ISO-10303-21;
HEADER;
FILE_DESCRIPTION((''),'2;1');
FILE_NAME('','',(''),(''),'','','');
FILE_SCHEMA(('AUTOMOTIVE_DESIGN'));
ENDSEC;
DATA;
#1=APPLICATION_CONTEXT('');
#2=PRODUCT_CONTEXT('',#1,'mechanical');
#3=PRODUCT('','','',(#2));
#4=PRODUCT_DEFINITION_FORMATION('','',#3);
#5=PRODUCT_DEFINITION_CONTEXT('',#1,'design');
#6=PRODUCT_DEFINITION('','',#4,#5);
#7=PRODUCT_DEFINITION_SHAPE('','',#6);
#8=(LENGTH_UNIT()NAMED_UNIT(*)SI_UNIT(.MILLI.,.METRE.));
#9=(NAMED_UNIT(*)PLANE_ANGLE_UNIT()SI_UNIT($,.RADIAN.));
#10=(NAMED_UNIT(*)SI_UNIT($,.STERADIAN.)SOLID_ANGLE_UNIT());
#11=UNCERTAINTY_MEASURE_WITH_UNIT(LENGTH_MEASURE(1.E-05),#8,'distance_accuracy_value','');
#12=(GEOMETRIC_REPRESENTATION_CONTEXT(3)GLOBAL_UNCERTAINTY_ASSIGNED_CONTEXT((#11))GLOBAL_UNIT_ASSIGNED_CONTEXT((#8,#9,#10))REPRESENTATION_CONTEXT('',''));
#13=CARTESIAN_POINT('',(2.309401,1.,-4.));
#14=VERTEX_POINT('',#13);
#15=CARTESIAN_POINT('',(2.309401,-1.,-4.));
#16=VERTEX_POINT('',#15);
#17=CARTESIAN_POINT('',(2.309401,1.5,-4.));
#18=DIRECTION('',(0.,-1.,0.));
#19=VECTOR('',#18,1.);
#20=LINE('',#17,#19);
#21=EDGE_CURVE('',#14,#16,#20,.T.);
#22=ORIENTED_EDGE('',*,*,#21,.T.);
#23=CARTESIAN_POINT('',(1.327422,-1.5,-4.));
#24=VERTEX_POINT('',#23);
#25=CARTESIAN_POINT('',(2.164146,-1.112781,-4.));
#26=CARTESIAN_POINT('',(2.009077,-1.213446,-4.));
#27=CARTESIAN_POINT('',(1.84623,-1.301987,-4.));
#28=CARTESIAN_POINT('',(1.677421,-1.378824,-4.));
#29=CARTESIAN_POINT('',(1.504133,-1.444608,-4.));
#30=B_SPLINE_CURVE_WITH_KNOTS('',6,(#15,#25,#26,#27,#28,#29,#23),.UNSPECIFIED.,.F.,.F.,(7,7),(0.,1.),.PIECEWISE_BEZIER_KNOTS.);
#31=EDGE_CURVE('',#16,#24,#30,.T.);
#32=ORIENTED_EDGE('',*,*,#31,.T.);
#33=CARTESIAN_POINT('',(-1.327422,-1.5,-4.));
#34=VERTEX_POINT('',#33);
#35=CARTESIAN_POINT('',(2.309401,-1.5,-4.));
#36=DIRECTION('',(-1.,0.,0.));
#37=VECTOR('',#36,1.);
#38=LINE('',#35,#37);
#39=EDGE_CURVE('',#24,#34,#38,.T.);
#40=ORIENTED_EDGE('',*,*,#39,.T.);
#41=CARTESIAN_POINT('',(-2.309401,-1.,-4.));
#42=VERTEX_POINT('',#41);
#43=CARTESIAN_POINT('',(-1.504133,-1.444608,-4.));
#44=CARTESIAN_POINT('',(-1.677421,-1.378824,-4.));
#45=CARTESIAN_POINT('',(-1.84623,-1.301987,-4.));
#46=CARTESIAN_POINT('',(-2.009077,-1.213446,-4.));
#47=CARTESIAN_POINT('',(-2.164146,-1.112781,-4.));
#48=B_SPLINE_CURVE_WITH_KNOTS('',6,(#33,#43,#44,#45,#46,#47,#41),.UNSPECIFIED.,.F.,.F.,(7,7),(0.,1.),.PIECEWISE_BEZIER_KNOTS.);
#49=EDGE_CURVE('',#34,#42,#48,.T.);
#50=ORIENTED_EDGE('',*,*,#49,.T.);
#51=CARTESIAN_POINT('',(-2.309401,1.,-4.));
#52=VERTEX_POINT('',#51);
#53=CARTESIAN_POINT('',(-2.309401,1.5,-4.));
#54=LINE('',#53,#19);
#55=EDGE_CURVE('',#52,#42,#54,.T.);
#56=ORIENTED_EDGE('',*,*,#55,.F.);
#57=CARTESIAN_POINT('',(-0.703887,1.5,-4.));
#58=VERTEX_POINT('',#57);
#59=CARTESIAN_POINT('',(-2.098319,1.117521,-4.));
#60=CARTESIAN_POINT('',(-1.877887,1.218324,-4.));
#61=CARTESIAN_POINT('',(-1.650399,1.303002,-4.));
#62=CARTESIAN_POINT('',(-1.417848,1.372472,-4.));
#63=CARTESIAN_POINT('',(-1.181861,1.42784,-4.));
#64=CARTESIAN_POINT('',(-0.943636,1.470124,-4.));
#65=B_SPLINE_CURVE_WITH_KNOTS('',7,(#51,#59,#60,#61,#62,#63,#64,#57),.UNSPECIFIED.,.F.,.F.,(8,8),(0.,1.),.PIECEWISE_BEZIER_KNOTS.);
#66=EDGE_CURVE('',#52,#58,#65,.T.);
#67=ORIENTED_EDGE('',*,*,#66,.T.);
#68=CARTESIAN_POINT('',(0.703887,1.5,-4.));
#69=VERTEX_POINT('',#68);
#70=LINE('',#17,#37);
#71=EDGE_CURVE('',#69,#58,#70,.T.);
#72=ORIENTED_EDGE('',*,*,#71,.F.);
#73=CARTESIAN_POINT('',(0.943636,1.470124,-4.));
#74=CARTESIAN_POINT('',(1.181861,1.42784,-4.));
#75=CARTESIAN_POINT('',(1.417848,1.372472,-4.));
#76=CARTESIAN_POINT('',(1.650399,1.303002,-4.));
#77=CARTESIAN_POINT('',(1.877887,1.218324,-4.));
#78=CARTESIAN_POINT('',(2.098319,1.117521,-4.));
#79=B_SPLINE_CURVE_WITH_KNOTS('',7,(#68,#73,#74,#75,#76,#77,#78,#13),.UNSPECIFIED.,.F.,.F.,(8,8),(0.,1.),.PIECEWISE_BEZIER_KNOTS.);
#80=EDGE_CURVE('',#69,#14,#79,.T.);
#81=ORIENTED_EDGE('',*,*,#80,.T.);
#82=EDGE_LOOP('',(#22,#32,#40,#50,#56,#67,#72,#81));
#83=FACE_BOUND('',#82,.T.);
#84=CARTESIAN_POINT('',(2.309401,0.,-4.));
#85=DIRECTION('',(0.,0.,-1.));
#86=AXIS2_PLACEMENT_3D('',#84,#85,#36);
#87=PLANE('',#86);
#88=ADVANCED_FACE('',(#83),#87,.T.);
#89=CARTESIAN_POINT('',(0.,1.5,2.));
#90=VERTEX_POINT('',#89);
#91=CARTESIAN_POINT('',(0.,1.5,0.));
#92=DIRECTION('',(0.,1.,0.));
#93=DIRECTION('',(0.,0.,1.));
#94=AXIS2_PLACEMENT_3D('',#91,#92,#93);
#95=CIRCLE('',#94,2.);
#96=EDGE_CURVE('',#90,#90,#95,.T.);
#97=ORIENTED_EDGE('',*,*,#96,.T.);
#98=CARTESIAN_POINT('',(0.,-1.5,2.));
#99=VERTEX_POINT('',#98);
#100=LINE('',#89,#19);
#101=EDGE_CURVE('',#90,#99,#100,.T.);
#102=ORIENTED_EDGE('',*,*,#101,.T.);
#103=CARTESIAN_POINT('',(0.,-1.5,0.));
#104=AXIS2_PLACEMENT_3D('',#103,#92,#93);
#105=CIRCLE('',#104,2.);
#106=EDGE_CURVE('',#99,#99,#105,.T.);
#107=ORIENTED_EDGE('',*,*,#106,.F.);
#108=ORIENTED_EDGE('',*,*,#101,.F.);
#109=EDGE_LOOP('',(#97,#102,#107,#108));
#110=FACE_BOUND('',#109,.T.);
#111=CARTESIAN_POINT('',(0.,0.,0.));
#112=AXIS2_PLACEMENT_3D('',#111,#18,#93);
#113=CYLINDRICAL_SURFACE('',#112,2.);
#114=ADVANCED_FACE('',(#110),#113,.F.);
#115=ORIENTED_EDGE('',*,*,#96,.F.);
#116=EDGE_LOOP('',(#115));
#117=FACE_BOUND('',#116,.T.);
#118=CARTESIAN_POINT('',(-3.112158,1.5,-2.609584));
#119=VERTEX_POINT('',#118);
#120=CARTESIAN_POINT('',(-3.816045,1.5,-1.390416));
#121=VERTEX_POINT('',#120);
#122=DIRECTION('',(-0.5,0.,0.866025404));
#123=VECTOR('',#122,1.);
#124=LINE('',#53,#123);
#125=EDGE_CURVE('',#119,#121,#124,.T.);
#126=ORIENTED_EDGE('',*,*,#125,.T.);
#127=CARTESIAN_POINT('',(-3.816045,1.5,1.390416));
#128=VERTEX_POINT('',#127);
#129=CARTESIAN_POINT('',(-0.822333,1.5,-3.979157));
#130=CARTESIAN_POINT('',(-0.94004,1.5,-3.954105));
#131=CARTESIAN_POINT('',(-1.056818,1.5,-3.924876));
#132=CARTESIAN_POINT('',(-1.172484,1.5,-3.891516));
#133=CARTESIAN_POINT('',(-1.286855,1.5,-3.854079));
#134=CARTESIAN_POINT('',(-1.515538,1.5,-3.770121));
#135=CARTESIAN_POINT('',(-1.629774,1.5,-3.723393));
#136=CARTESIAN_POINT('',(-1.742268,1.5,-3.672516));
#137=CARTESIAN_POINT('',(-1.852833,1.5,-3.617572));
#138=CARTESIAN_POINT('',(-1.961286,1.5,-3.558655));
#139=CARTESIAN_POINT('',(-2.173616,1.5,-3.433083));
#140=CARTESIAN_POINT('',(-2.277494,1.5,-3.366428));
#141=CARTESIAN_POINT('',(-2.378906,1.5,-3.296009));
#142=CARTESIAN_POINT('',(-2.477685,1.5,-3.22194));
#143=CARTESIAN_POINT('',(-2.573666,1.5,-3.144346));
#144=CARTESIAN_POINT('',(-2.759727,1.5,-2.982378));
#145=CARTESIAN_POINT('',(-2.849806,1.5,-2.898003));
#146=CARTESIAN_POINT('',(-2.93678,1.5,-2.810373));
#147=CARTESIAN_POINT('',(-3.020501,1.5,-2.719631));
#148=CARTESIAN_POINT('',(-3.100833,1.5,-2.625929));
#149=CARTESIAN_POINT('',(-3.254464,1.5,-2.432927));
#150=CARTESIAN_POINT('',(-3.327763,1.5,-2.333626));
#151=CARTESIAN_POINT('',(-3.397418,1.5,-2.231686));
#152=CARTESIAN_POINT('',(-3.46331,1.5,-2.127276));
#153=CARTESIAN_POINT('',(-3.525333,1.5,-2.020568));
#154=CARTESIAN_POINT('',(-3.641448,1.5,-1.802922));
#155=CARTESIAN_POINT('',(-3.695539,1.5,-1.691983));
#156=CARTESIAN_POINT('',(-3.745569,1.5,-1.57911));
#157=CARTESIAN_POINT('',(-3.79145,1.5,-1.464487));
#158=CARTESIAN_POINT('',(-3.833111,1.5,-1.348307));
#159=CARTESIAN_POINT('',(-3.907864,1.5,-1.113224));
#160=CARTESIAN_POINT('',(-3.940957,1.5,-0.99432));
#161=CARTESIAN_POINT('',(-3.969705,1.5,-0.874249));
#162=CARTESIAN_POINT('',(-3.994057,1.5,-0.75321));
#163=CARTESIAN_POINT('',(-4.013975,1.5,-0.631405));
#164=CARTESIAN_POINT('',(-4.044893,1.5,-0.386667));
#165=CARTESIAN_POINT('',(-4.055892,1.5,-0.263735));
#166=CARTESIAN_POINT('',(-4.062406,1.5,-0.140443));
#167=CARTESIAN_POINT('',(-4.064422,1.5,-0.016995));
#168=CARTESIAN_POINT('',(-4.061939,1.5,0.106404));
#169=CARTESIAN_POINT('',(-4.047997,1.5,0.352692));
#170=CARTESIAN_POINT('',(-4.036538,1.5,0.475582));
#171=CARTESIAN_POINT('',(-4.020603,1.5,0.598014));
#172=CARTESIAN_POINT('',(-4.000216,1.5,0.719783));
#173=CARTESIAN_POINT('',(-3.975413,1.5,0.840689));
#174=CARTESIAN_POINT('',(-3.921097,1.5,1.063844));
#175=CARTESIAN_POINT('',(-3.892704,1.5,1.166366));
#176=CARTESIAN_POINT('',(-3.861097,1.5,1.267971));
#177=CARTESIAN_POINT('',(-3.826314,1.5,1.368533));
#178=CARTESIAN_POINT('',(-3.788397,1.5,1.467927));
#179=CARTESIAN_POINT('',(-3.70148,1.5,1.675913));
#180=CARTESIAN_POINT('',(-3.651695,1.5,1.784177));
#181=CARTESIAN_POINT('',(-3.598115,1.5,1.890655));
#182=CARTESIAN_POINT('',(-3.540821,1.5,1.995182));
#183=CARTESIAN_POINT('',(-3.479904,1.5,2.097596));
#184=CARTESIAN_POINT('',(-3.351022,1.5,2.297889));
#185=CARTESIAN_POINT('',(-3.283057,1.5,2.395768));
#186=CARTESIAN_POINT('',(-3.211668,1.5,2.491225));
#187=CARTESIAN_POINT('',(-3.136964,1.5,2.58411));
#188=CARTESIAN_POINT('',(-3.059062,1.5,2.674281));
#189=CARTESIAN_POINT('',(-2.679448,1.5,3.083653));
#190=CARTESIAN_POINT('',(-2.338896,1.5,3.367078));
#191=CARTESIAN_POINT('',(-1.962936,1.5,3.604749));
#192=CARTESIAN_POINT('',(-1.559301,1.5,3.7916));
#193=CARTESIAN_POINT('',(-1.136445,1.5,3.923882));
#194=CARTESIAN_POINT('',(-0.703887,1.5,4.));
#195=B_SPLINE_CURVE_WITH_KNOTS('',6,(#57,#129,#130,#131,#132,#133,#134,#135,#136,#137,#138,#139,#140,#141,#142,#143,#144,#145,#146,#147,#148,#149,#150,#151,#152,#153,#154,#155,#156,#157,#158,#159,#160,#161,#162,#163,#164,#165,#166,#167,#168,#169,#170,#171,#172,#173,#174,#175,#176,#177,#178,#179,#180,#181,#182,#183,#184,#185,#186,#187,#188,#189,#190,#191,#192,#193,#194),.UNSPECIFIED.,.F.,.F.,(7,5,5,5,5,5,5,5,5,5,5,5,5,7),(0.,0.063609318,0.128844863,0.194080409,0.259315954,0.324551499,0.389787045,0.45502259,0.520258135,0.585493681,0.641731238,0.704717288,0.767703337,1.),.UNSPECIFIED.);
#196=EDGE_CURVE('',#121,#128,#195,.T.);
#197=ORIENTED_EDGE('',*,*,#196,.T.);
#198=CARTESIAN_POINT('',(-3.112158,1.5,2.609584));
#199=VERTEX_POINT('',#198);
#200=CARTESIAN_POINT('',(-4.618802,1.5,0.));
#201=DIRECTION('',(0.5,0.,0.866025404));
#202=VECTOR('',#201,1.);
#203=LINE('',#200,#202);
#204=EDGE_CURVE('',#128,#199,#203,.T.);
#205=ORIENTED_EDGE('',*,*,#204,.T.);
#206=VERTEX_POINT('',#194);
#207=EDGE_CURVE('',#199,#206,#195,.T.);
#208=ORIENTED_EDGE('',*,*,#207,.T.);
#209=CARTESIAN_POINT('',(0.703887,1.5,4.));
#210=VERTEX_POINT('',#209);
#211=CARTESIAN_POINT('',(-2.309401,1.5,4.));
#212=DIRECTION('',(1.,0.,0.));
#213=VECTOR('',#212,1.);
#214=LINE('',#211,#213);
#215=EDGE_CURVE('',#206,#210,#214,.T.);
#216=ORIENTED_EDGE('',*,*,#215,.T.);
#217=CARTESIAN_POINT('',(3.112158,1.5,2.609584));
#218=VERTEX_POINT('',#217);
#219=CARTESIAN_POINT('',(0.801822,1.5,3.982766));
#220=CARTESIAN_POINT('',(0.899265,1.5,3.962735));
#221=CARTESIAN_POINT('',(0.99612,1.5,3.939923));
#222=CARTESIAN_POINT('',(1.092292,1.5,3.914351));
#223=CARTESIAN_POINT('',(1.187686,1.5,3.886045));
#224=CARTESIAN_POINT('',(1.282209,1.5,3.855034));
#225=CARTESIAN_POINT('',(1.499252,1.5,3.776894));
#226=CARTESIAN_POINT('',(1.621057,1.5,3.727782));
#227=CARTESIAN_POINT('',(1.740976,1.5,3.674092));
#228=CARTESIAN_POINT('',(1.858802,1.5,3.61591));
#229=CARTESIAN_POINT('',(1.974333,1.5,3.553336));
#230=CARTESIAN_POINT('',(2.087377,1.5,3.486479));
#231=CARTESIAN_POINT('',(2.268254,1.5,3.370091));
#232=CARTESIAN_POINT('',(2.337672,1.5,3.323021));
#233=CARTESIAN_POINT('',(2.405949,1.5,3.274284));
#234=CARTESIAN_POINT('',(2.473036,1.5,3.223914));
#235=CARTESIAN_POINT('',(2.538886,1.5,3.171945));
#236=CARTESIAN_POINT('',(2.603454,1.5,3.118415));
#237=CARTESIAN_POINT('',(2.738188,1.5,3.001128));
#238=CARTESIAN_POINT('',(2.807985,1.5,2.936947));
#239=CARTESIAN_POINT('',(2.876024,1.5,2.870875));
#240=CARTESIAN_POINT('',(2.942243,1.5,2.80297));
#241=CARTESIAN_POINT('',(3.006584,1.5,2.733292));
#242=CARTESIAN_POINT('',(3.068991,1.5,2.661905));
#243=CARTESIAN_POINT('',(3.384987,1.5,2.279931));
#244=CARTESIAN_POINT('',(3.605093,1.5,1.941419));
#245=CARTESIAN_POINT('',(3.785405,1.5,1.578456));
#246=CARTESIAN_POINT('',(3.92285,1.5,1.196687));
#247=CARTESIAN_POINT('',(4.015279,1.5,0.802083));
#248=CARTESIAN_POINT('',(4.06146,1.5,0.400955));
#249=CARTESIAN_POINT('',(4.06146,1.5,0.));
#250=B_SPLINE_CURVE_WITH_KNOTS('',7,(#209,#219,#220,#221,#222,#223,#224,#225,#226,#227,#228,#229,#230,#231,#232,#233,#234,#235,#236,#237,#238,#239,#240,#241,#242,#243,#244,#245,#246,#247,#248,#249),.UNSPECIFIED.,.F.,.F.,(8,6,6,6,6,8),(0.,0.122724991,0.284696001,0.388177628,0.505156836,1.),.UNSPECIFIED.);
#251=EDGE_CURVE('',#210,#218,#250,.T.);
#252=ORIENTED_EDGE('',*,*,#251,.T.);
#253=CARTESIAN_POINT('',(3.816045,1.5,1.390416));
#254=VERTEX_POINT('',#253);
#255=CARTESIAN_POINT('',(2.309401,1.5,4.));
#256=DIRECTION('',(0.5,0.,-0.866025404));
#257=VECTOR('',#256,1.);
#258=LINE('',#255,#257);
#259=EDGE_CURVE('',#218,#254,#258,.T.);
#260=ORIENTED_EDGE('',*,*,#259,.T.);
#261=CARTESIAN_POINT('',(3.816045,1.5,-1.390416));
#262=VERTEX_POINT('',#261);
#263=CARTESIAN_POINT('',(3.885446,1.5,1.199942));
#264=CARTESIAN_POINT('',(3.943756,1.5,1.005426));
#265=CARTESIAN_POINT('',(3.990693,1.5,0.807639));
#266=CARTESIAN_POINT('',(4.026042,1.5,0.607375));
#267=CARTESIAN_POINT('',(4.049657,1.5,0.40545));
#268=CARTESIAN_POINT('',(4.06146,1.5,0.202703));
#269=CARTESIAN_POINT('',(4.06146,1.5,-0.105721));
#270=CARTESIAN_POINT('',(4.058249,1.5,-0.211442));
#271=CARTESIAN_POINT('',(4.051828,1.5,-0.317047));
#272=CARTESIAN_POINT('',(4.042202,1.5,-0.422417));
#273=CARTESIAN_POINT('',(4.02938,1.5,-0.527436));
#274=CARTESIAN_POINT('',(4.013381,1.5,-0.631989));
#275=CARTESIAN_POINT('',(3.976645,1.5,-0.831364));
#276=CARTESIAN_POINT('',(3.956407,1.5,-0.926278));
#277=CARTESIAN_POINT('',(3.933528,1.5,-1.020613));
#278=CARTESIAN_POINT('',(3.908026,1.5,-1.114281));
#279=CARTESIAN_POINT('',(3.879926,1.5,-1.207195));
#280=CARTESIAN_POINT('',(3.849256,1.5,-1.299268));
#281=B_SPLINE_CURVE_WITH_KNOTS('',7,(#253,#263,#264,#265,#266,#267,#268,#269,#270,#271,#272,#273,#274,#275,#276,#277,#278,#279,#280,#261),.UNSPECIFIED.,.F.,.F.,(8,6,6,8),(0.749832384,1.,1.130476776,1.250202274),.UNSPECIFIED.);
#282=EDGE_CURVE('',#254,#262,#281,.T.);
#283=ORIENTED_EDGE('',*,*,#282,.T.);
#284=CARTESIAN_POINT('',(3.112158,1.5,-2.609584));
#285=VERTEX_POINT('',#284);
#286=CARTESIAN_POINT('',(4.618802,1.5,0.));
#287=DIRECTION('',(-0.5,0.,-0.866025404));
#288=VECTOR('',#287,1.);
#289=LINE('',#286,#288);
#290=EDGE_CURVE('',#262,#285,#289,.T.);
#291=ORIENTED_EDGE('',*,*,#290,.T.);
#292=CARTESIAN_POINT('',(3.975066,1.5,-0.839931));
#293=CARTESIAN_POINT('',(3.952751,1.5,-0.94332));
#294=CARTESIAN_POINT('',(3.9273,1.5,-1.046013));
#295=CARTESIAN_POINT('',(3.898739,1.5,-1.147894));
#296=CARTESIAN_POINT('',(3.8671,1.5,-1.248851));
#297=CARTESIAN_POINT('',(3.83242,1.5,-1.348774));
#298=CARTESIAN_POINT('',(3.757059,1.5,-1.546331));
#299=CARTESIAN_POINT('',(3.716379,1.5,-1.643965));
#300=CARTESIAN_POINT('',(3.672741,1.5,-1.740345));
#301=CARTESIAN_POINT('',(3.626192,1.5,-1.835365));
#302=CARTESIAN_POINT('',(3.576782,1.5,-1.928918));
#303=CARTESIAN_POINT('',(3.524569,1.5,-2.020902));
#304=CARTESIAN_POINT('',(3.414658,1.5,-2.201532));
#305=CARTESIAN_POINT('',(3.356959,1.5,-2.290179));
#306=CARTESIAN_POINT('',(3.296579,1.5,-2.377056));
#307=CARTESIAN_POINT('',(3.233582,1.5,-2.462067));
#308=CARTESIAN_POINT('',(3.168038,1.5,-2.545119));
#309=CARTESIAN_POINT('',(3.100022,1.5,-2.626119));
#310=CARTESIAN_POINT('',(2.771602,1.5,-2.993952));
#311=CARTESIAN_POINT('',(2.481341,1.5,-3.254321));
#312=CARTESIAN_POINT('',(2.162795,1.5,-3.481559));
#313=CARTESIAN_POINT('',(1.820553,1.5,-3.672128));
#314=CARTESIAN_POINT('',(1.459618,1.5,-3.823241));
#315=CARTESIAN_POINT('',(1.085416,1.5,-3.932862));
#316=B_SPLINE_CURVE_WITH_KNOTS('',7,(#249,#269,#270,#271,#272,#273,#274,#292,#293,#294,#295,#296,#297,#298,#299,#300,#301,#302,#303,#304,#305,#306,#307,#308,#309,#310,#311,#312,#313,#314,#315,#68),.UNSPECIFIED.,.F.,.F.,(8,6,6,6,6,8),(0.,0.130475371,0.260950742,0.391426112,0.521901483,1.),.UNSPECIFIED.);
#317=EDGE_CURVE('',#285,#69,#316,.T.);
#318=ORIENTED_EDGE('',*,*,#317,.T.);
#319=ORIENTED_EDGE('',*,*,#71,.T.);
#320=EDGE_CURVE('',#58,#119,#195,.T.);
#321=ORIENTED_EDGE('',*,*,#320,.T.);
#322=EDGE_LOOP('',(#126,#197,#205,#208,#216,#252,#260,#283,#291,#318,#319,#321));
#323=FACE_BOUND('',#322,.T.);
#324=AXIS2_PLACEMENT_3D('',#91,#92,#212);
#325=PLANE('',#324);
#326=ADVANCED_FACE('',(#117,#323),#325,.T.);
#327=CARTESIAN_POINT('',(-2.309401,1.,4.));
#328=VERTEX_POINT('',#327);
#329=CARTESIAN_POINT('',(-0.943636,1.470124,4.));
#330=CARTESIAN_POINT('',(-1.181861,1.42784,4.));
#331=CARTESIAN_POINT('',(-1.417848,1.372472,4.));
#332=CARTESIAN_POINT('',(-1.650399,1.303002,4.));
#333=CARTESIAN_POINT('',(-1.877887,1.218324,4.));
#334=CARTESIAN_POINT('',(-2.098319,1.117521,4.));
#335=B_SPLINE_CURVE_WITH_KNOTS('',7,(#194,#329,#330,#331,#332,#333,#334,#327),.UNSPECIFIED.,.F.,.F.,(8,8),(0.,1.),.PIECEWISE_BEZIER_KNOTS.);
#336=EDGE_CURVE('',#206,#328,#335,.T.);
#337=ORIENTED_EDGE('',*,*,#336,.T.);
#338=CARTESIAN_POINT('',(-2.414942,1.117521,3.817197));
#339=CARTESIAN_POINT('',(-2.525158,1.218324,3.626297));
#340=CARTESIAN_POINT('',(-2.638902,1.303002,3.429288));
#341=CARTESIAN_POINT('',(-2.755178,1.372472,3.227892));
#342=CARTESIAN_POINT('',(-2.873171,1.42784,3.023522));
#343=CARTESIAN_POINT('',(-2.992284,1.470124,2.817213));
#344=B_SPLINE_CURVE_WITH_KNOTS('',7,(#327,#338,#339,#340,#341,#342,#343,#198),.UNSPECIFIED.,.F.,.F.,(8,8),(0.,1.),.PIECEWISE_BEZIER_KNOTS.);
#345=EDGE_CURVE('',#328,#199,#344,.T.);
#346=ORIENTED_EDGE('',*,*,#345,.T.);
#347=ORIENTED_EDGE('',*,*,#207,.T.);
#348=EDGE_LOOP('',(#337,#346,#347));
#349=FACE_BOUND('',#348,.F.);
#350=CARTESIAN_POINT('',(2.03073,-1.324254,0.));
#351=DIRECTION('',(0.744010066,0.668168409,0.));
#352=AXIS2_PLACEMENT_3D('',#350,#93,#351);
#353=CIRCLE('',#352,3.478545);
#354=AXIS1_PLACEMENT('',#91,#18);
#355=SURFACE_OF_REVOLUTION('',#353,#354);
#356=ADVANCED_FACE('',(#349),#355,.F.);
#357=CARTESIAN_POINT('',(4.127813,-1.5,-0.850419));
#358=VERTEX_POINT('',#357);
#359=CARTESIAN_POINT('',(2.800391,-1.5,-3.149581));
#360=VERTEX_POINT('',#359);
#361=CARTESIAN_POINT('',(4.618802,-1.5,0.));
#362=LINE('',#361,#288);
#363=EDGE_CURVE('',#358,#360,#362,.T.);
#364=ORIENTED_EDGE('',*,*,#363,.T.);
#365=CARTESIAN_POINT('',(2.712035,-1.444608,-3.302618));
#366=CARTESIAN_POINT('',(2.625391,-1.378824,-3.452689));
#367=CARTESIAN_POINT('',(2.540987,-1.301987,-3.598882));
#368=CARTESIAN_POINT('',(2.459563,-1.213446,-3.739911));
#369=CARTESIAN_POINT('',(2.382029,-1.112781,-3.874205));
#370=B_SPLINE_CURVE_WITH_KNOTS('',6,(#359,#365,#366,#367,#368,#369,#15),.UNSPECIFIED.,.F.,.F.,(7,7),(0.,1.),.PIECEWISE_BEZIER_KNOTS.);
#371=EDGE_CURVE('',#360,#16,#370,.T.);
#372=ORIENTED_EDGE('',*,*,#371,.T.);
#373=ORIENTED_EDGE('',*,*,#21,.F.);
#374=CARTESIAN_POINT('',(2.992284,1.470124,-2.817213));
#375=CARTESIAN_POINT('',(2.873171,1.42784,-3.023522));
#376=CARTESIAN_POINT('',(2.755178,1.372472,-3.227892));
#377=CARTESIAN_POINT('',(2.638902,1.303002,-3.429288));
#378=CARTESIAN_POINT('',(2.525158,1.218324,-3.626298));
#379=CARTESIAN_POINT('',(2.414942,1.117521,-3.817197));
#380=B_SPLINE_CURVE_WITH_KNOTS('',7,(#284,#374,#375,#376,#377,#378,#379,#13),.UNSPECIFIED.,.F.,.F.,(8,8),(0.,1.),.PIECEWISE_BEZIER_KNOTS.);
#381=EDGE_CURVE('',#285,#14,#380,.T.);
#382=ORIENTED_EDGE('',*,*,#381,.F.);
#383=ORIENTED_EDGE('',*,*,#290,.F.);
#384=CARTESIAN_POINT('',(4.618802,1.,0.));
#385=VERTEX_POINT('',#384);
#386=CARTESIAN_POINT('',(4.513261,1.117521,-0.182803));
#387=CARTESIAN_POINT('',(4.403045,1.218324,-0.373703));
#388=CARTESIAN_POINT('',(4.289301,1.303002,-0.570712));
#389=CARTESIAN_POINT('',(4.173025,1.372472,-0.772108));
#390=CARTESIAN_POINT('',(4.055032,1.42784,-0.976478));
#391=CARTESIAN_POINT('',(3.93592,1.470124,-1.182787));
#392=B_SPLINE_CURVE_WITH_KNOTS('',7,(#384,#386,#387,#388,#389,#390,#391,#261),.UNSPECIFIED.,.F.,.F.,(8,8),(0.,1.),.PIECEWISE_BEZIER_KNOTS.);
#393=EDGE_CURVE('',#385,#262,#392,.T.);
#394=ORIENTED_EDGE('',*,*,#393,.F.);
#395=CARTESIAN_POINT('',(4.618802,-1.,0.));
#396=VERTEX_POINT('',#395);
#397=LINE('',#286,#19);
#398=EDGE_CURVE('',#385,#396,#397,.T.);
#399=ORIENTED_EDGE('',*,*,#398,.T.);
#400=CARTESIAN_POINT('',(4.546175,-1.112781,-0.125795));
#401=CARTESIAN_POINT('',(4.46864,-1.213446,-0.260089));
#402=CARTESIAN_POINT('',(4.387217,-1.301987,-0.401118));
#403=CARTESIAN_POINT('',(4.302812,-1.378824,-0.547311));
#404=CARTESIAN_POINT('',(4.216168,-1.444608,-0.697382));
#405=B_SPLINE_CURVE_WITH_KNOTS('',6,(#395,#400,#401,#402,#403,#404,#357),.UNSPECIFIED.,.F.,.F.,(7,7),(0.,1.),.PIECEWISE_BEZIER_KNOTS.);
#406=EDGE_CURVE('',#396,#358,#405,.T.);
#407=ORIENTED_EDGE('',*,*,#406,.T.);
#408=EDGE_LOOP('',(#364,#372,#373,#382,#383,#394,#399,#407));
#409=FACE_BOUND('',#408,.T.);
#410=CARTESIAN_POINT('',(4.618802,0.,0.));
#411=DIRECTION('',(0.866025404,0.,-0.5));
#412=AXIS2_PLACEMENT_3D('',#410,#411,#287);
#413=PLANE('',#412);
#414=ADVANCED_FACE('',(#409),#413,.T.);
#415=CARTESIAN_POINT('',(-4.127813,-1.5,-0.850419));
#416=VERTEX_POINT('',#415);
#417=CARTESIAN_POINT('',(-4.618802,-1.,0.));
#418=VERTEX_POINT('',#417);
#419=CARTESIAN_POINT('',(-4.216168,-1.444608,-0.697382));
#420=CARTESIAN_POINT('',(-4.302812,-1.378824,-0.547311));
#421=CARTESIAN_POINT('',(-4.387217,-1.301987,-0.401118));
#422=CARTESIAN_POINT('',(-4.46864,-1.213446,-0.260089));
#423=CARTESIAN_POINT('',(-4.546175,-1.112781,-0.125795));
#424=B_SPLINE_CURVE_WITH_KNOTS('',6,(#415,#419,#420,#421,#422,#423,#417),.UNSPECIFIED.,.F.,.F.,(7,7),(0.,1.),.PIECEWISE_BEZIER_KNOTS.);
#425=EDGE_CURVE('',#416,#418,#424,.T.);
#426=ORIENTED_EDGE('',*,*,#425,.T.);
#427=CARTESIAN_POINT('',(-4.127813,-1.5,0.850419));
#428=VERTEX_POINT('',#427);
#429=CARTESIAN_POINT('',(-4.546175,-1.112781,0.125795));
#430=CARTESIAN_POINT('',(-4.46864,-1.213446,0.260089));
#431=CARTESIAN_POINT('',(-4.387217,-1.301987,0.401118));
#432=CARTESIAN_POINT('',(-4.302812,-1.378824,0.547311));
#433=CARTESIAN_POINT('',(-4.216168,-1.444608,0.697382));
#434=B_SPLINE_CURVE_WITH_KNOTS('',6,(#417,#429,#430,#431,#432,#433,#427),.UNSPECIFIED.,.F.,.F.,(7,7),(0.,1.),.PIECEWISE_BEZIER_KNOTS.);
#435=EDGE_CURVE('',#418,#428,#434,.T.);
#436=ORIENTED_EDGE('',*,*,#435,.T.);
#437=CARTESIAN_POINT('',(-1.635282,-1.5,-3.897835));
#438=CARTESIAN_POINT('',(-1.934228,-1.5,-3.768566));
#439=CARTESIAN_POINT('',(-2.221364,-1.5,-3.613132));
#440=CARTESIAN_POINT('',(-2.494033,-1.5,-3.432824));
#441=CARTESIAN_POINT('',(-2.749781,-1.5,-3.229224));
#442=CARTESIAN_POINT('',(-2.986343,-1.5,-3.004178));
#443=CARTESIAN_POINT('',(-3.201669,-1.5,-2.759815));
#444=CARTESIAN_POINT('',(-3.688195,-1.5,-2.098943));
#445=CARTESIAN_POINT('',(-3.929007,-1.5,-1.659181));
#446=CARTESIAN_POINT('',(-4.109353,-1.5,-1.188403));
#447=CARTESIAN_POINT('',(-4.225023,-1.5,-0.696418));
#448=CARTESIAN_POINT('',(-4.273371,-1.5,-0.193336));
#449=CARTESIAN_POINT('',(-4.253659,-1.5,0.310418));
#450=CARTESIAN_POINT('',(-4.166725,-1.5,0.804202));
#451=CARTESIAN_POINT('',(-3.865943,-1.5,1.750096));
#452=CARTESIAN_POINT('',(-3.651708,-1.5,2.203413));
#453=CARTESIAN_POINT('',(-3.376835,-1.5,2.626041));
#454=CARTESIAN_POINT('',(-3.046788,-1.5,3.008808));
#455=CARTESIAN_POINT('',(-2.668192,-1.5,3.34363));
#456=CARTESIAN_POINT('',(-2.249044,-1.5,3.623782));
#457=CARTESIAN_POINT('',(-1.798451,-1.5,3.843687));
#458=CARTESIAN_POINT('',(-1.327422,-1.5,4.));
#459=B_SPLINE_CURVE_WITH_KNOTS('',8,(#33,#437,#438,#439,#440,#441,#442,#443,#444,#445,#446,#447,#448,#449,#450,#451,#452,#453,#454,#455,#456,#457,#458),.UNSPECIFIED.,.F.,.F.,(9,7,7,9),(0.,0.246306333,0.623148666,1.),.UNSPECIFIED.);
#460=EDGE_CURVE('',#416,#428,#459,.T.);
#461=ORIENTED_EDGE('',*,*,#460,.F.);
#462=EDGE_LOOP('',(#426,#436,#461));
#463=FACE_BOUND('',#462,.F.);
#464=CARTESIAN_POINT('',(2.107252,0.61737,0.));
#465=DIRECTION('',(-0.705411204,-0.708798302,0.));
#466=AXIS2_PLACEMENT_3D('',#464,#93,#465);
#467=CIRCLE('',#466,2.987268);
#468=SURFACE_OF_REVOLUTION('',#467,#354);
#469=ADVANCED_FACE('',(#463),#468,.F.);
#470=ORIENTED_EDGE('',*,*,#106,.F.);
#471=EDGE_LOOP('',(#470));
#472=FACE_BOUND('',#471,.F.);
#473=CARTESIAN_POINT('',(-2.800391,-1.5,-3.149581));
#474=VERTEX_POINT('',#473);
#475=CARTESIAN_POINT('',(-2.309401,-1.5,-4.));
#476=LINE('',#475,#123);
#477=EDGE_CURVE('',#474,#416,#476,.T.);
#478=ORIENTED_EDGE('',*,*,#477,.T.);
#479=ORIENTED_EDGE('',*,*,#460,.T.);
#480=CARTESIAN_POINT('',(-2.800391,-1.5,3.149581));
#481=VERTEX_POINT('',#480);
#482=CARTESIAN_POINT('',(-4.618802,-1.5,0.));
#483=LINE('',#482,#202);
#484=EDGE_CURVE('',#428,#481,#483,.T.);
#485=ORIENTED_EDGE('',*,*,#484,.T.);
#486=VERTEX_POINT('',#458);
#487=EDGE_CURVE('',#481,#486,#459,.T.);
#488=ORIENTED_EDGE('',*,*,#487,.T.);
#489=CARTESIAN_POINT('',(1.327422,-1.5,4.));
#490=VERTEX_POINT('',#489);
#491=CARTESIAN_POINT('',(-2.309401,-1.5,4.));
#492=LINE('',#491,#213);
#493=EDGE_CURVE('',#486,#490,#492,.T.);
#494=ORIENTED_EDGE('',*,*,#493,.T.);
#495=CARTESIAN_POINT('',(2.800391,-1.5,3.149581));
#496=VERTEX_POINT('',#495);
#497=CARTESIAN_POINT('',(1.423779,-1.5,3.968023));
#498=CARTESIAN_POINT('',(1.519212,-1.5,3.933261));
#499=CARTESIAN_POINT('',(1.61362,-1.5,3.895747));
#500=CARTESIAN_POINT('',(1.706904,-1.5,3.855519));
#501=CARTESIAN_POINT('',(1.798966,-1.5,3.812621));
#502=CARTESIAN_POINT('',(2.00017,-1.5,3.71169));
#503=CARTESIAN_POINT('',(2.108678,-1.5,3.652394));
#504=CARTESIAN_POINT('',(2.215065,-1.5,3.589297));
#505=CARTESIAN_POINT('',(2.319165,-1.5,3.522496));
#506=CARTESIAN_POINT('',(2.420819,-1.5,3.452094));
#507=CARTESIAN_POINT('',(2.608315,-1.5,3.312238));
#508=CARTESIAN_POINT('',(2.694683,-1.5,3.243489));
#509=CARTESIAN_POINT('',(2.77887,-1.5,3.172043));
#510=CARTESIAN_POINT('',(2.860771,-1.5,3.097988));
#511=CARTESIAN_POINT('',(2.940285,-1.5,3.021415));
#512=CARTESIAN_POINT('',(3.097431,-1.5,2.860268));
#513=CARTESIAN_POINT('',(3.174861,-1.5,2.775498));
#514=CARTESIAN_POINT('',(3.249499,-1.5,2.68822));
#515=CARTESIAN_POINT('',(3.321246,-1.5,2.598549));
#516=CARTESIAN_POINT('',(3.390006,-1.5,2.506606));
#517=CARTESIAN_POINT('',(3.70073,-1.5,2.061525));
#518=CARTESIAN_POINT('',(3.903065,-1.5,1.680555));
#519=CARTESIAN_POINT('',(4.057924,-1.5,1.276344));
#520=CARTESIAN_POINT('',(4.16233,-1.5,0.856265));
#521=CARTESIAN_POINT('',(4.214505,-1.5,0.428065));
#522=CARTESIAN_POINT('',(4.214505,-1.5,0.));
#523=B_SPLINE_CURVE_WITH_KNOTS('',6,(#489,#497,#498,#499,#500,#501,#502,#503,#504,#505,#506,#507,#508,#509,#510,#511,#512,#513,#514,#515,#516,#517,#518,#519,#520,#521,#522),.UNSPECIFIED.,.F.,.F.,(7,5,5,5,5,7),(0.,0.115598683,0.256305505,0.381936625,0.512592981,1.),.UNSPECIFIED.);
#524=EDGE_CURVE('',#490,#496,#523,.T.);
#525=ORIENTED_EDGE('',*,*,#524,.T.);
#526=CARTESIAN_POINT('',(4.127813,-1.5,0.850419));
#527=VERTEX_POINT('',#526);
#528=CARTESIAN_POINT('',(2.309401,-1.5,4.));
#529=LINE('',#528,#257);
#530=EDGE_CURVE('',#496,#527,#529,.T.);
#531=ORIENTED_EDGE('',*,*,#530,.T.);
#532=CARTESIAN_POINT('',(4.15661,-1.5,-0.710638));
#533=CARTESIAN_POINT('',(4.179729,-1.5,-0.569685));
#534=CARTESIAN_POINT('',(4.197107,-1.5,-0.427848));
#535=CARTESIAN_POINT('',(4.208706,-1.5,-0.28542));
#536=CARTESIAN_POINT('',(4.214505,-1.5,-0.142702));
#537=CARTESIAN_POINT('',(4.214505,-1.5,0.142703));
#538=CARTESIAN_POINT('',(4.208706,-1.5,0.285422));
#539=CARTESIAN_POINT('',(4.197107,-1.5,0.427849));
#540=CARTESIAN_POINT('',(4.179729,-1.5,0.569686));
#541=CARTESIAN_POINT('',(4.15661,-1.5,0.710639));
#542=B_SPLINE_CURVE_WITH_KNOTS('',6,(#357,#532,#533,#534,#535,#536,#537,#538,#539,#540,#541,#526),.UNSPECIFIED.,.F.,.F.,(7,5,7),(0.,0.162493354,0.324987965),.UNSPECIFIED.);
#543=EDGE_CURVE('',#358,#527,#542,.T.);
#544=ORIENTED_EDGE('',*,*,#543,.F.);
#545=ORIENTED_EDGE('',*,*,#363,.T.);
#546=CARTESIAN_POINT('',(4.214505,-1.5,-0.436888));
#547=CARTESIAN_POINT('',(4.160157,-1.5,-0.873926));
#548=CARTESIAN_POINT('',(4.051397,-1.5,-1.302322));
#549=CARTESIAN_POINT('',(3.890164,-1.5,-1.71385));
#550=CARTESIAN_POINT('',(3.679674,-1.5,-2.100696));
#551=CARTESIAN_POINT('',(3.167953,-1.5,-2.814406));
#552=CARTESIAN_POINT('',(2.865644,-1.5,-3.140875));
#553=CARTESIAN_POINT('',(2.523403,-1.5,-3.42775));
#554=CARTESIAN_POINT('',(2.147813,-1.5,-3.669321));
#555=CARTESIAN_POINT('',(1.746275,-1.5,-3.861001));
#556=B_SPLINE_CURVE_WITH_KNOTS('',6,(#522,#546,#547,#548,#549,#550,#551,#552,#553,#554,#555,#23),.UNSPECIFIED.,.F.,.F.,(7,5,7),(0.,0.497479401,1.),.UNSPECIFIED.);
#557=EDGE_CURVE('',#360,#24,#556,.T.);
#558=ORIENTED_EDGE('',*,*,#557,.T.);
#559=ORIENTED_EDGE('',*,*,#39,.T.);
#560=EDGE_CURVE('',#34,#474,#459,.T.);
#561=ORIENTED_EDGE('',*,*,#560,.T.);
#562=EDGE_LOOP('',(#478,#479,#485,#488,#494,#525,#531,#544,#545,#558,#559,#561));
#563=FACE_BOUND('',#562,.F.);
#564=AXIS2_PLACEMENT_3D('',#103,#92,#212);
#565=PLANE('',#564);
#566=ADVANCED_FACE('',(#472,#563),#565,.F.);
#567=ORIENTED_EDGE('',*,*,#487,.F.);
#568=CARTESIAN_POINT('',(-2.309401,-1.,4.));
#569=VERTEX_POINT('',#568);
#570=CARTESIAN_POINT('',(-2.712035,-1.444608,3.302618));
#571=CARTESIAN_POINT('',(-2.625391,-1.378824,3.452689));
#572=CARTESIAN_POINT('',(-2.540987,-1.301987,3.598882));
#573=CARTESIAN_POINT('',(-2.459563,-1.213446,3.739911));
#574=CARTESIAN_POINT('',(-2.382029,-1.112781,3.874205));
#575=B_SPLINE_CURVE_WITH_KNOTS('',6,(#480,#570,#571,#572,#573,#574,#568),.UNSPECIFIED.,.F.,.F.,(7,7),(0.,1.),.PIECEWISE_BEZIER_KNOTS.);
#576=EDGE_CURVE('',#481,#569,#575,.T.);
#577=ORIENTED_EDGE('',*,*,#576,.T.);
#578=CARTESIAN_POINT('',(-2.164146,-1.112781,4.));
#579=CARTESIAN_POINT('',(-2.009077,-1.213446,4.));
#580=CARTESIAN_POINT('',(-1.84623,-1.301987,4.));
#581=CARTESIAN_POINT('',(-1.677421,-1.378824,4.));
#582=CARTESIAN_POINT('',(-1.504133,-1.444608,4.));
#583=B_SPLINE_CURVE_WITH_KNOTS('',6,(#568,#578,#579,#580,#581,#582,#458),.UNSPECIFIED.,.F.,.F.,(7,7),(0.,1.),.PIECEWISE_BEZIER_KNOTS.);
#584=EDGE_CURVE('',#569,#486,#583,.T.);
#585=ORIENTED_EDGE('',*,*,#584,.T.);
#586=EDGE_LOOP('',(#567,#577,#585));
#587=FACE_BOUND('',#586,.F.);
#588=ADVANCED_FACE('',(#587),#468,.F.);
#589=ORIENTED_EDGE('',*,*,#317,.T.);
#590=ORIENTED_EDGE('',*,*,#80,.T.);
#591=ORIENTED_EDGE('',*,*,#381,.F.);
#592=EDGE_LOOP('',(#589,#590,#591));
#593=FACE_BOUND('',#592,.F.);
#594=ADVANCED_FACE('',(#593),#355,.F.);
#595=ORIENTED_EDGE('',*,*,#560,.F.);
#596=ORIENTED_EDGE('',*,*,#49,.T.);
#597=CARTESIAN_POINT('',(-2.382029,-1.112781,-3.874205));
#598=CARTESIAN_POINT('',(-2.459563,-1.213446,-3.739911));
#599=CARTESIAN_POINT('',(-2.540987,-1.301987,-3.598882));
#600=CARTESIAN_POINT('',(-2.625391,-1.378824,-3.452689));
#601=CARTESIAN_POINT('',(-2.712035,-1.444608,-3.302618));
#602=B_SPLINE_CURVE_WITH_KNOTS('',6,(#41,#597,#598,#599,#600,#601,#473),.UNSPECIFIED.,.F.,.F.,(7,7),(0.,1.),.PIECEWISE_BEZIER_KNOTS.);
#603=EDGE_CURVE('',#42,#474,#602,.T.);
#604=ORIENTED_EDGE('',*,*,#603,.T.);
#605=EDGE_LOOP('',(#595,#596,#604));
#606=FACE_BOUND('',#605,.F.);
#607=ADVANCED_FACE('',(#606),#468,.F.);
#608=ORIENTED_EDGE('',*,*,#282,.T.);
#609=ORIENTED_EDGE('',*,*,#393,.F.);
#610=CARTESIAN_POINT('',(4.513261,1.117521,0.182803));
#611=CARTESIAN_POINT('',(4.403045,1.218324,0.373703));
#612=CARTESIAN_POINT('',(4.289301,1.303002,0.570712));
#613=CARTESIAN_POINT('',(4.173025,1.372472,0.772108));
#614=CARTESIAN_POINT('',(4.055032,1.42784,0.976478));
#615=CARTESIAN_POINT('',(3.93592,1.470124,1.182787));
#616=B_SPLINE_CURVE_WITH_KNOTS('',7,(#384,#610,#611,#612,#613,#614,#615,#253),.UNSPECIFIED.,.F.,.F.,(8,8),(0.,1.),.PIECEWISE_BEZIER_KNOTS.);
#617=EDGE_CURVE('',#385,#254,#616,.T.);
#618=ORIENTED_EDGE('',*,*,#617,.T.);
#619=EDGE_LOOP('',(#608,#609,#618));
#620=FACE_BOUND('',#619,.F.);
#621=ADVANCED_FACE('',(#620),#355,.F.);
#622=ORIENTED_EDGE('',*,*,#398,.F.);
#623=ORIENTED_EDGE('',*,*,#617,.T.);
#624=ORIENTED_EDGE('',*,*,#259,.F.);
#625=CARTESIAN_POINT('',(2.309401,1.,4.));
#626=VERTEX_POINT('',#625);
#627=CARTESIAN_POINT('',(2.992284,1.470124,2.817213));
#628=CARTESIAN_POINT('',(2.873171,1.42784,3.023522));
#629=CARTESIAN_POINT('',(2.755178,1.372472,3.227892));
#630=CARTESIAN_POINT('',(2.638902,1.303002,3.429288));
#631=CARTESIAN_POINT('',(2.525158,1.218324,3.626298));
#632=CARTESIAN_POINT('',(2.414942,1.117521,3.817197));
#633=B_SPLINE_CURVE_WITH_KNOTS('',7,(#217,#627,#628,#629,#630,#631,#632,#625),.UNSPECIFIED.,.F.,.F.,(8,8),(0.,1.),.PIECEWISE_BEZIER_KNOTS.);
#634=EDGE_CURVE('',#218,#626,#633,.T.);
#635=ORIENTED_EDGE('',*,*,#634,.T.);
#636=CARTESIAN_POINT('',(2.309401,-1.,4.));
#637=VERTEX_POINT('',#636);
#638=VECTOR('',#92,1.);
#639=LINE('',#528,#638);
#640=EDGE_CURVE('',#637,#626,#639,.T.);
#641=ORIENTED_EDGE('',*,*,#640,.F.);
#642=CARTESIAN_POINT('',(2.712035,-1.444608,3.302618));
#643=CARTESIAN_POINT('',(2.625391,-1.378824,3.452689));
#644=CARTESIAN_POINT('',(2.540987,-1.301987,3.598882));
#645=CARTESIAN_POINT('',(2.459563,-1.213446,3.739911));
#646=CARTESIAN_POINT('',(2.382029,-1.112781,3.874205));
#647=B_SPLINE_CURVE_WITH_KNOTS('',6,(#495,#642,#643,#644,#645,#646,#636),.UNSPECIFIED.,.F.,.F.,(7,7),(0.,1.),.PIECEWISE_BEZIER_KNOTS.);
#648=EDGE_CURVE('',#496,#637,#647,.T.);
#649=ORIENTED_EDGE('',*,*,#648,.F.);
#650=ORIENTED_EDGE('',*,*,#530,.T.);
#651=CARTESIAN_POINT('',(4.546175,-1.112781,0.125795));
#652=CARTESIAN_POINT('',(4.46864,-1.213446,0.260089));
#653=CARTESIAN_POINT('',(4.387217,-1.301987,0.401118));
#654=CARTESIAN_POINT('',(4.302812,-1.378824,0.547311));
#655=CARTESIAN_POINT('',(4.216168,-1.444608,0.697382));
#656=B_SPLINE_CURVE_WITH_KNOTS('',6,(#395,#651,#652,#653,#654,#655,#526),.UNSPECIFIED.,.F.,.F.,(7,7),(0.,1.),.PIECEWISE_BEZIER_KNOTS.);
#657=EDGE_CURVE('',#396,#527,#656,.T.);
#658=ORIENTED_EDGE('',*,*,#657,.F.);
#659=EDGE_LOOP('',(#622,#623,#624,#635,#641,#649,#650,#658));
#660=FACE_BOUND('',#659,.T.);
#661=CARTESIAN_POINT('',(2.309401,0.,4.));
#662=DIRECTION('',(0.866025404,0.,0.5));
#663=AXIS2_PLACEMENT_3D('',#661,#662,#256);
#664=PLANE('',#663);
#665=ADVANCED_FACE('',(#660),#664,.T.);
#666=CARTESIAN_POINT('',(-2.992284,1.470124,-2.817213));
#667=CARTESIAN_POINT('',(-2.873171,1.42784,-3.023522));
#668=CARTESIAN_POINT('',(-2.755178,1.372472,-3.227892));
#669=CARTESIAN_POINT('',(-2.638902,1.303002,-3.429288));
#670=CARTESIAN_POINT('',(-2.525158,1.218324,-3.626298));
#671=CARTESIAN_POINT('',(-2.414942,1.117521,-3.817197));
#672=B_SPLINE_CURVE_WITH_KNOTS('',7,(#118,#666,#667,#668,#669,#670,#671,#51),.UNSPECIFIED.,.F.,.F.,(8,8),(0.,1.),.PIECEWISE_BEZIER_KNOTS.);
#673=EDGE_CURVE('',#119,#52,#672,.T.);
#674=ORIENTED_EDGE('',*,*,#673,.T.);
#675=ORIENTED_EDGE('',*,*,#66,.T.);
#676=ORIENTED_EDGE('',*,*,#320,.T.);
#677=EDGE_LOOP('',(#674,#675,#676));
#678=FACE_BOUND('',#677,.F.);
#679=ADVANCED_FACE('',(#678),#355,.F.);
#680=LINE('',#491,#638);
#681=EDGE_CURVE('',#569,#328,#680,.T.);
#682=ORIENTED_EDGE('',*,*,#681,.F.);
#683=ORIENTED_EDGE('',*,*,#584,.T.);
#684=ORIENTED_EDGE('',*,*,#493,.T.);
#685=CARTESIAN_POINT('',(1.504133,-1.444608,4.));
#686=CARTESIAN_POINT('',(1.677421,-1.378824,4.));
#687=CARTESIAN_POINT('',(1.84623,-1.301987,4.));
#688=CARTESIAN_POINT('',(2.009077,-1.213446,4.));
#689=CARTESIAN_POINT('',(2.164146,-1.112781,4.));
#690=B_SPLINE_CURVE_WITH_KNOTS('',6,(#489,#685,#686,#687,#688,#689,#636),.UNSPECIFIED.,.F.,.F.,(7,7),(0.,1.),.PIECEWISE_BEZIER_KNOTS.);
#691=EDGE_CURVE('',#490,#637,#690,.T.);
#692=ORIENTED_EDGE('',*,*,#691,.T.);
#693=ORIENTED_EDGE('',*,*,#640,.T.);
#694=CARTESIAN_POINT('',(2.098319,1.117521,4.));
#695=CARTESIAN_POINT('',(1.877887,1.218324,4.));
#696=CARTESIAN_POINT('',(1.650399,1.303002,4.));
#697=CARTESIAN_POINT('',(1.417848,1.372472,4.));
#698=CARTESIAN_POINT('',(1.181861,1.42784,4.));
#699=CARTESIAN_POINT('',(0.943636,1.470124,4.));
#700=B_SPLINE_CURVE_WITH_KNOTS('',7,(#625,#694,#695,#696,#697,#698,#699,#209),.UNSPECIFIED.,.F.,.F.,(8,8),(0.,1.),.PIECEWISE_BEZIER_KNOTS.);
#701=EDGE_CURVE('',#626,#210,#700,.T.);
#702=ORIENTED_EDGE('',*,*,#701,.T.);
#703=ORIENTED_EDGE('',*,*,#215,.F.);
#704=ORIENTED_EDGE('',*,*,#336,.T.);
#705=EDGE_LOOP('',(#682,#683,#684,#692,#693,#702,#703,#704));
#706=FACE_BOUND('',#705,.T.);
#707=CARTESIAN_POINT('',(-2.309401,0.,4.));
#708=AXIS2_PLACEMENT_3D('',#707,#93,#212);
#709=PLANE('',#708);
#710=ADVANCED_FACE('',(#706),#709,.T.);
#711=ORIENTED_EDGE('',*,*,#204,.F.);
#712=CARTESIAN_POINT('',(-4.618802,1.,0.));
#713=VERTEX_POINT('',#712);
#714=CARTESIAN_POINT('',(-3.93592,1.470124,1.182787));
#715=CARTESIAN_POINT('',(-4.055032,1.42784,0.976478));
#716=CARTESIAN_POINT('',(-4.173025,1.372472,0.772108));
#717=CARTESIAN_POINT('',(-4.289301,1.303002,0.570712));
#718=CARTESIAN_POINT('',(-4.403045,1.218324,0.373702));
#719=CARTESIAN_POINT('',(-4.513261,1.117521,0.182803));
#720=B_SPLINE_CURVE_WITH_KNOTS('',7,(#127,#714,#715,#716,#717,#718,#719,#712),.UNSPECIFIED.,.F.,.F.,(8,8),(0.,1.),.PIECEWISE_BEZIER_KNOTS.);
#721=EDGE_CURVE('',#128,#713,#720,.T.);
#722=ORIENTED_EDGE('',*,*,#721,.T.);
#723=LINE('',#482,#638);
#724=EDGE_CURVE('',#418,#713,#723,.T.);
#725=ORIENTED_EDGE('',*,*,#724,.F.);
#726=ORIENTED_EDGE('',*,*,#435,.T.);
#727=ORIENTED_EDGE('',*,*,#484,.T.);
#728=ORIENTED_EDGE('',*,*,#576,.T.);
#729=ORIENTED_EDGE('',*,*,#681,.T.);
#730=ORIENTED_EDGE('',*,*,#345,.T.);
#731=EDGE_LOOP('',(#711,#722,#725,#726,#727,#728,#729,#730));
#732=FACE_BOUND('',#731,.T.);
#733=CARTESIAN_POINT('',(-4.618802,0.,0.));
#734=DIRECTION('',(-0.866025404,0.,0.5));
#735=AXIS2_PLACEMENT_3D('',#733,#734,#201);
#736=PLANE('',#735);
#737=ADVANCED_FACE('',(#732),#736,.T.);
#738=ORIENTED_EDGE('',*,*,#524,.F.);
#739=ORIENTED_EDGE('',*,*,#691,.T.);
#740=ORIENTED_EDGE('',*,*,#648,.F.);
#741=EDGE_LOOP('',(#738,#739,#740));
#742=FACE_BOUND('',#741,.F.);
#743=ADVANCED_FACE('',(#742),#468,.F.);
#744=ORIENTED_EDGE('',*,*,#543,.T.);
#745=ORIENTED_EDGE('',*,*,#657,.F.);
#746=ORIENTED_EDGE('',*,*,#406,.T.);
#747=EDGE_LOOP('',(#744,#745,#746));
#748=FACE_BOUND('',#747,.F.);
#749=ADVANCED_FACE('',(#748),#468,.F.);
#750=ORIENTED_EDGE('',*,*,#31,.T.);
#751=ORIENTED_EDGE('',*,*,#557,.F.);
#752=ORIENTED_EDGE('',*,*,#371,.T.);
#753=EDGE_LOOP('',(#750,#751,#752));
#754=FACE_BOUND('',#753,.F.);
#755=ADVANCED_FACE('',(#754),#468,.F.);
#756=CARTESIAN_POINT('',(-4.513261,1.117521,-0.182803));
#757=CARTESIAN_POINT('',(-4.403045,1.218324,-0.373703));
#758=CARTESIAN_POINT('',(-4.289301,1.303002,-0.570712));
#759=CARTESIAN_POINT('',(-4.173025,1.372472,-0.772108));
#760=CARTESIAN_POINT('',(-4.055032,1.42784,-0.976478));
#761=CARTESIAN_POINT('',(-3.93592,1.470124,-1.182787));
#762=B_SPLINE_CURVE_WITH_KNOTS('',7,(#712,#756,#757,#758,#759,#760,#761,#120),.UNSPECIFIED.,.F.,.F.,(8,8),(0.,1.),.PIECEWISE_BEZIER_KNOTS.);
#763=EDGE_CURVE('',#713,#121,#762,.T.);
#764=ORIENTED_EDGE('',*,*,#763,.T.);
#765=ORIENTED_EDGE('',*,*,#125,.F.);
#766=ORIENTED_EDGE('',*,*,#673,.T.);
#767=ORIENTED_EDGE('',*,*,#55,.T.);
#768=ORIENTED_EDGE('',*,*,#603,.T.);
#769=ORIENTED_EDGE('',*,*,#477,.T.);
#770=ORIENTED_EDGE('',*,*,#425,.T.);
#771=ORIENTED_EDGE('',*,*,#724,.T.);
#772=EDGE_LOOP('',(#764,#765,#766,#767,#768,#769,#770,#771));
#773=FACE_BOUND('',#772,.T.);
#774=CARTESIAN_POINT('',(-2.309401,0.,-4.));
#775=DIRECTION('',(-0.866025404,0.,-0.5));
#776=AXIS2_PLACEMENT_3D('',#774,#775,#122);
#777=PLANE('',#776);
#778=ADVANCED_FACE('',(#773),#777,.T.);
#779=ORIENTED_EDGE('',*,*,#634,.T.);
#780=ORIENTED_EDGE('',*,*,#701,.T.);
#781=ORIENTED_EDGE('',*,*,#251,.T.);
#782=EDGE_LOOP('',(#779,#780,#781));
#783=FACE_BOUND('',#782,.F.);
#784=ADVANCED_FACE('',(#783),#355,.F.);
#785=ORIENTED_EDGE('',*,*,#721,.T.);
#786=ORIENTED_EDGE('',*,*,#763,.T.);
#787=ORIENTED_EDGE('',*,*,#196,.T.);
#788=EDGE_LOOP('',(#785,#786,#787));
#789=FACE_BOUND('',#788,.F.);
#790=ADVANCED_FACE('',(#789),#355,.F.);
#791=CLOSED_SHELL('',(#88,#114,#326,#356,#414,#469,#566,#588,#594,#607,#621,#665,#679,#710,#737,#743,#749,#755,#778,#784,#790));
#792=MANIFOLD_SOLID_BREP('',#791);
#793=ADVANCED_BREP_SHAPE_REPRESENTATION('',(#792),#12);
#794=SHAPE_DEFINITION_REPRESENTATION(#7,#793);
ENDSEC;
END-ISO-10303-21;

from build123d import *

# Parameters (mm, degrees)
SKIZZE1_R                       = 2
AUFSATZ_LINEAR_AUSTRAGEN1_DEPTH = 1.5


with BuildPart() as part:
    # Skizze1 → Aufsatz-Linear austragen1 (new, symmetric)
    with BuildSketch(Plane(origin=(0, 0, 0), x_dir=(1, 0, 0), z_dir=(0, 1, 0))):
        Polygon((-2.309401077, 4), (-4.618802154, 0), (-2.309401077, -4), (2.309401077, -4), (4.618802154, 0), (2.309401077, 4), align=None)
        Circle(SKIZZE1_R, mode=Mode.SUBTRACT)
    extrude(amount=AUFSATZ_LINEAR_AUSTRAGEN1_DEPTH, both=True)

    # Skizze2 → Schnitt-Rotation1 (revolve, cut)
    with BuildSketch(Plane.XY):
        with BuildLine():
            Line((0, 1.5), (0, 2.733189598))
            Line((0, 2.733189598), (4.618802154, 2.733189598))
            Line((4.618802154, 2.733189598), (4.618802154, 1))
            ThreePointArc((4.618802154, 1), (2.405106227, 2.134086305), (0, 1.5))
        make_face()
        with BuildLine():
            Line((4.618802154, -1), (4.618802154, -2.751278334))
            Line((4.618802154, -2.751278334), (0, -2.751278334))
            Line((0, -2.751278334), (0, -1.5))
            ThreePointArc((0, -1.5), (2.428755218, -2.352546333), (4.618802154, -1))
        make_face()
    revolve(axis=Axis((0, 1.5, 0), (0, -1, 0)), mode=Mode.SUBTRACT)


solid = part.part
